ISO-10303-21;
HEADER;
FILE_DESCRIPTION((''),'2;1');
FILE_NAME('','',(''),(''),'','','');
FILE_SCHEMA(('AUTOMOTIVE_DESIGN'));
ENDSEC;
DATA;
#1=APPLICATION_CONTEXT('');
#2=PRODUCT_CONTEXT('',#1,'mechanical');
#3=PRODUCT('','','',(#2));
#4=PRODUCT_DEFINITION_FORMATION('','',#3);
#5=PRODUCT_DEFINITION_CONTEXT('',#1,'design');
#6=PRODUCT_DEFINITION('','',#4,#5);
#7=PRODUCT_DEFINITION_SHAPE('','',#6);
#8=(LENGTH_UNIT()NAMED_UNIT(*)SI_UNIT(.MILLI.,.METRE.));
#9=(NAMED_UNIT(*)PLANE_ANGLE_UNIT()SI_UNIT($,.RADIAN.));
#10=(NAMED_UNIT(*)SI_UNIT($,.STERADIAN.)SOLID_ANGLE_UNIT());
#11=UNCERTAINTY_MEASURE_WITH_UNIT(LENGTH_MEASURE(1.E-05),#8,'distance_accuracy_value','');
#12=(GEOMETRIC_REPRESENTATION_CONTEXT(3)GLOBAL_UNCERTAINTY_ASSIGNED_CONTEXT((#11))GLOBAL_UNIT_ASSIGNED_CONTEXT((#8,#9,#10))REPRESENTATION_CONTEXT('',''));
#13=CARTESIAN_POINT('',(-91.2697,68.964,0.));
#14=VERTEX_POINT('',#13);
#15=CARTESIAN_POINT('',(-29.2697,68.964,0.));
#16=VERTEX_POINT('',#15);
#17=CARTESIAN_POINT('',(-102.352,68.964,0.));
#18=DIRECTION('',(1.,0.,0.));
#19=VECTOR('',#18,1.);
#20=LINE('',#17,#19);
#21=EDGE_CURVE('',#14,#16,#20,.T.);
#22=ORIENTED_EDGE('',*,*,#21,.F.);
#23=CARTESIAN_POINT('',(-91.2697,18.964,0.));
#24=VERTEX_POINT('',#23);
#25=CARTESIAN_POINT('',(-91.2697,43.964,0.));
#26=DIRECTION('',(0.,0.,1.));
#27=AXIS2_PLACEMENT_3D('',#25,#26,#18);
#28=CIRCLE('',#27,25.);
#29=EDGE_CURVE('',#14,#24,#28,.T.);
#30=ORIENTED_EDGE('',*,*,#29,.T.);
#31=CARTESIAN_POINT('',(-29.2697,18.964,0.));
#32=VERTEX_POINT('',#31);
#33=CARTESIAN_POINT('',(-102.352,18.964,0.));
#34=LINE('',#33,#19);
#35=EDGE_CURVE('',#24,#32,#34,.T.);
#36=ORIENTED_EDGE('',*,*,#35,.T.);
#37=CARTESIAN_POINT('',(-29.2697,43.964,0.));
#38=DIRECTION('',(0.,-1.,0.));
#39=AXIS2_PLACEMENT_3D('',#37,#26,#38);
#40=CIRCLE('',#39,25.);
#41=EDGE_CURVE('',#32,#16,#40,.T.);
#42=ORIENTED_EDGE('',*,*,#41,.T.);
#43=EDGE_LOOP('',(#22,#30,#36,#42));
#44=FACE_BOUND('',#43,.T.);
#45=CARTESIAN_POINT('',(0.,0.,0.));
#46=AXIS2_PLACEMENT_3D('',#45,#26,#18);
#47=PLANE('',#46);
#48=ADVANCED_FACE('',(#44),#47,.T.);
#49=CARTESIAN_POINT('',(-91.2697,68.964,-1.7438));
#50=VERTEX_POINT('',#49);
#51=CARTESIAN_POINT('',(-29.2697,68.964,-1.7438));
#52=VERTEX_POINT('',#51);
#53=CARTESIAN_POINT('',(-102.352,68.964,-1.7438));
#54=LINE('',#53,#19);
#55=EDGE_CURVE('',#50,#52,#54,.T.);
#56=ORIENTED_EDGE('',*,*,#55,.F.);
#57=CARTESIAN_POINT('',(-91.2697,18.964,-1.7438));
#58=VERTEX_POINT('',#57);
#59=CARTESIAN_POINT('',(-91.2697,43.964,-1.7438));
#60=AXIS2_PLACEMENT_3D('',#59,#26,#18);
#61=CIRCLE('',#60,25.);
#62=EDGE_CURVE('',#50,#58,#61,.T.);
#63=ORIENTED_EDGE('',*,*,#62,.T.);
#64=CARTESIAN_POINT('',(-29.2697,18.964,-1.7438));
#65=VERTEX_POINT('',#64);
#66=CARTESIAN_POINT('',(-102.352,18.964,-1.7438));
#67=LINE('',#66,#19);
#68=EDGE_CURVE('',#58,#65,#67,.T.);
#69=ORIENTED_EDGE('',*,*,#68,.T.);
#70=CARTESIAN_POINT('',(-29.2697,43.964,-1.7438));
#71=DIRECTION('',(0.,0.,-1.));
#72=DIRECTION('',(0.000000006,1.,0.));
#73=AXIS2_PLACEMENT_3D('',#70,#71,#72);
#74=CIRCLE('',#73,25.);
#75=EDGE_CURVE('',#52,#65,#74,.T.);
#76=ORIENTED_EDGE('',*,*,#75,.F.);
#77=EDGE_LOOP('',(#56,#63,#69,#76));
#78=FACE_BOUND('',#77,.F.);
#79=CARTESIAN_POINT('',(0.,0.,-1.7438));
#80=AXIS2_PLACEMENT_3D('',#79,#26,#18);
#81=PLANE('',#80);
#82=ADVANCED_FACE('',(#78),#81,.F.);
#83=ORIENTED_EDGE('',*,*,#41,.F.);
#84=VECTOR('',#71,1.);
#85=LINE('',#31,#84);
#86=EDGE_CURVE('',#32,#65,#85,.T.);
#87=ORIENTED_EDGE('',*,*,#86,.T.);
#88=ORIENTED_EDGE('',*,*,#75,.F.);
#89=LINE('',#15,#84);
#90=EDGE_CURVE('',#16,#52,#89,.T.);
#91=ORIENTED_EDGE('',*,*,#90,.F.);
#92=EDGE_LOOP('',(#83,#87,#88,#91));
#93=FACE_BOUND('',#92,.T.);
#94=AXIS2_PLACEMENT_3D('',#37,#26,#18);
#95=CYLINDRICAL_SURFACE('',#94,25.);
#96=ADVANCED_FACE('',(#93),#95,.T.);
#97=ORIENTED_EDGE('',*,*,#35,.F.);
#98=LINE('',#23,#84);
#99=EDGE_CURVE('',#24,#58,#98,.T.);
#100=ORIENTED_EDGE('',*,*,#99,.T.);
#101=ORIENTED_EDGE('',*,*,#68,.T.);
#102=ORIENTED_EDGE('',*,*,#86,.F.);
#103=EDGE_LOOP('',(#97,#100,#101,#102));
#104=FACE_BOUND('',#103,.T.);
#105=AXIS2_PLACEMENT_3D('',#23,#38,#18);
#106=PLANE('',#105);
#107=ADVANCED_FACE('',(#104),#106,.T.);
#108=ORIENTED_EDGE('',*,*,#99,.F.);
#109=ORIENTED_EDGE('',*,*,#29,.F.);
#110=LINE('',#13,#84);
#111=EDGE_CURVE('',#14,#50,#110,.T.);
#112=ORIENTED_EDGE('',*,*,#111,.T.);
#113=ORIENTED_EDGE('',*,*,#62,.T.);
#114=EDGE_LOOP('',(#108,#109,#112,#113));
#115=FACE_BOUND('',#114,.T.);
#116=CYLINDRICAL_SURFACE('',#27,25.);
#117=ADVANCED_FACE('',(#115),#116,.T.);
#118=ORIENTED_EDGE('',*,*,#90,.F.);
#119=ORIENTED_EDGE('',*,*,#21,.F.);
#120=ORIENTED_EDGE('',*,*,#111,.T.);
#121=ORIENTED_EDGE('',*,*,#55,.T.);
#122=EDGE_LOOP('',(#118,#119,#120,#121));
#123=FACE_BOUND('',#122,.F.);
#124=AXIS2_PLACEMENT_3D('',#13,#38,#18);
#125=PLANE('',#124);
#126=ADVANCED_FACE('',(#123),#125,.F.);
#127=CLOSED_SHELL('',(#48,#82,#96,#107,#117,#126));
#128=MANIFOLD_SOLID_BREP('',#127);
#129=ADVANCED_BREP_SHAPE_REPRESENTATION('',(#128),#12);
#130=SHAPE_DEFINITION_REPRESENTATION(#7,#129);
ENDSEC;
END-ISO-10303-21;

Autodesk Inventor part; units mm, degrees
ref_plane "YZ Plane" through (0, 0, 0) normal (1, 0, 0) x (0, 1, 0)
ref_plane "XZ Plane" through (0, 0, 0) normal (0, 1, 0) x (-1, 0, 0)
sketch "Skizze1" plane through (0, 0, 0) normal (0, 0, 1) x (1, 0, 0)
  circle A0 centre (-91.2697, 43.964) radius 25
  circle A1 centre (-29.2697, 43.964) radius 25
  ellipse E0 centre (-9.1617, 66.4648) end of major axis (16.2819, 71.5914) minor radius 22.416 (-7.6926, 89.0293) -> (-19.3363, 86.6652) ccw projected
  ellipse E1 centre (-31.2859, 110.7263) end of major axis (-1.1112, 117.4506) minor radius 26.6674 (-31.9836, 83.8645) -> (-19.3363, 86.6652) ccw projected
  line L0 (-34.4882, 83.8645) -> (-31.9836, 83.8645) projected
  ellipse E2 centre (-35.1859, 110.7263) end of major axis (-5.0113, 104.0019) minor radius 26.6674 (-47.1355, 86.6652) -> (-34.4882, 83.8645) ccw projected
  ellipse E3 centre (-57.311, 66.4601) end of major axis (-31.8648, 61.3331) minor radius 22.4208 (-47.1355, 86.6652) -> (-58.7792, 89.0293) ccw projected
  line L1 (-61.3973, 89.0293) -> (-58.7792, 89.0293) projected
  ellipse E4 centre (-62.8661, 66.4649) end of major axis (-37.4224, 71.5906) minor radius 22.416 (-61.3973, 89.0293) -> (-73.0392, 86.6659) ccw projected
  ellipse E5 centre (-84.9938, 110.7412) end of major axis (-54.802, 117.4681) minor radius 26.6822 (-85.6923, 83.8645) -> (-73.0392, 86.6659) ccw projected
  line L2 (-88.1968, 83.8645) -> (-85.6923, 83.8645) projected
  ellipse E6 centre (-88.8953, 110.7412) end of major axis (-58.7036, 104.0144) minor radius 26.6822 (-100.8499, 86.6659) -> (-88.1968, 83.8645) ccw projected
  ellipse E7 centre (-111.0239, 66.4602) end of major axis (-85.5776, 61.3339) minor radius 22.4208 (-100.8499, 86.6659) -> (-112.4918, 89.0293) ccw projected
  line L3 (-120.1896, 89.0293) -> (-112.4918, 89.0293) projected
  line L4 (-120.1896, 25.9867) -> (-120.1896, 89.0293) projected
  line L5 (-105.8047, 1.087) -> (-120.1896, 25.9867) projected
  spline S0 degree 3 poles (-103.9219, 0) (-104.0107, 0) (-104.0979, 0.0044) (-104.1833, 0.0134) (-104.269, 0.0223) (-104.353, 0.0358) (-104.4349, 0.0538) (-104.517, 0.0718) (-104.597, 0.0944) (-104.6748, 0.1214) (-104.7529, 0.1485) (-104.8286, 0.1801) (-104.9018, 0.2161) (-104.941, 0.2354) (-104.9795, 0.2559) (-105.0172, 0.2777) (-105.0875, 0.3183) (-105.1555, 0.3634) (-105.2209, 0.4129) (-105.2859, 0.4621) (-105.3484, 0.5156) (-105.408, 0.5733) (-105.4675, 0.6308) (-105.5243, 0.6924) (-105.5781, 0.758) (-105.6317, 0.8233) (-105.6824, 0.8925) (-105.7301, 0.9654) (-105.7558, 1.0049) (-105.7807, 1.0454) (-105.8047, 1.087) knots -2.338618 -2.338618 -2.338618 -2.338618 -2.082467 -2.082467 -2.082467 -1.825195 -1.825195 -1.825195 -1.567203 -1.567203 -1.567203 -1.307968 -1.307968 -1.307968 -1.168939 -1.168939 -1.168939 -0.909645 -0.909645 -0.909645 -0.651775 -0.651775 -0.651775 -0.394667 -0.394667 -0.394667 -0.138517 -0.138517 -0.138517 0 0 0 0 projected
  line L6 (-16.2642, 0) -> (-103.9219, 0) projected
  spline S1 degree 3 poles (-14.3814, 1.087) (-14.4258, 1.0102) (-14.4732, 0.9369) (-14.5236, 0.8675) (-14.5742, 0.7977) (-14.6278, 0.7318) (-14.6843, 0.6699) (-14.7409, 0.6078) (-14.8004, 0.5498) (-14.8626, 0.496) (-14.9251, 0.442) (-14.9903, 0.3922) (-15.058, 0.3468) (-15.0943, 0.3225) (-15.1313, 0.2995) (-15.169, 0.2777) (-15.2393, 0.2371) (-15.3124, 0.2007) (-15.388, 0.1688) (-15.4632, 0.137) (-15.5408, 0.1097) (-15.6206, 0.0868) (-15.7002, 0.064) (-15.782, 0.0457) (-15.8657, 0.0318) (-15.9491, 0.018) (-16.0345, 0.0087) (-16.1216, 0.0039) (-16.1686, 0.0013) (-16.2162, 0) (-16.2642, 0) knots -2.338618 -2.338618 -2.338618 -2.338618 -2.08263 -2.08263 -2.08263 -1.82552 -1.82552 -1.82552 -1.567689 -1.567689 -1.567689 -1.308614 -1.308614 -1.308614 -1.169679 -1.169679 -1.169679 -0.910226 -0.910226 -0.910226 -0.652194 -0.652194 -0.652194 -0.394923 -0.394923 -0.394923 -0.138612 -0.138612 -0.138612 0 0 0 0 projected
  line L7 (0.0001, 26.012) -> (-14.3814, 1.087) projected
  line L8 (0, 89.0293) -> (0.0001, 26.012) projected
  line L9 (-7.6926, 89.0293) -> (0, 89.0293) projected
  circle A2 centre (-64.1021, 9.6247) radius 1.6 projected
  circle A3 centre (-56.1021, 9.6247) radius 1.6 projected
  arc A4 (-20.5619, 52.6116) -> (-33.7385, 60.9564) centre (-35.5323, 43.5486) ccw projected
  arc A5 (-20.5619, 52.6116) -> (-29.2715, 52.6538) centre (-24.9939, 36.718) ccw projected
  arc A6 (-29.2715, 52.6538) -> (-38.5147, 54.1885) centre (-35.5323, 43.5486) ccw projected
  arc A7 (-33.7385, 60.9564) -> (-38.5147, 54.1885) centre (-24.3476, 49.2598) ccw projected
  arc A8 (-40.2873, 53.5232) -> (-46.2379, 46.2856) centre (-35.5323, 43.5486) ccw projected
  arc A9 (-49.711, 53.806) -> (-46.2379, 46.2856) centre (-34.8859, 56.0904) ccw projected
  arc A10 (-35.8959, 61.0448) -> (-49.711, 53.806) centre (-35.5323, 43.5486) ccw projected
  arc A11 (-35.8959, 61.0448) -> (-40.2873, 53.5232) centre (-24.3476, 49.2598) ccw projected
  arc A12 (-50.8662, 51.9818) -> (-51.5048, 36.3981) centre (-35.5323, 43.5486) ccw projected
  arc A13 (-50.8662, 51.9818) -> (-46.548, 44.4179) centre (-34.8859, 56.0904) ccw projected
  arc A14 (-46.548, 44.4179) -> (-43.2554, 35.6457) centre (-35.5323, 43.5486) ccw projected
  arc A15 (-51.5048, 36.3981) -> (-43.2554, 35.6457) centre (-46.0706, 50.3792) ccw projected
  arc A16 (-50.5026, 34.4856) -> (-37.326, 26.1408) centre (-35.5323, 43.5486) ccw projected
  arc A17 (-50.5026, 34.4856) -> (-41.793, 34.4433) centre (-46.0706, 50.3792) ccw projected
  arc A18 (-41.793, 34.4433) -> (-32.5498, 32.9087) centre (-35.5323, 43.5486) ccw projected
  arc A19 (-37.326, 26.1408) -> (-32.5498, 32.9087) centre (-46.7169, 37.8374) ccw projected
  arc A20 (-30.7773, 33.574) -> (-24.8266, 40.8115) centre (-35.5323, 43.5486) ccw projected
  arc A21 (-21.3535, 33.2912) -> (-24.8266, 40.8115) centre (-36.1786, 31.0068) ccw projected
  arc A22 (-35.1686, 26.0524) -> (-21.3535, 33.2912) centre (-35.5323, 43.5486) ccw projected
  arc A23 (-35.1686, 26.0524) -> (-30.7773, 33.574) centre (-46.7169, 37.8374) ccw projected
  arc A24 (-24.5165, 42.6792) -> (-27.8091, 51.4514) centre (-35.5323, 43.5486) ccw projected
  arc A25 (-19.5597, 50.699) -> (-27.8091, 51.4514) centre (-24.9939, 36.718) ccw projected
  arc A26 (-20.1983, 35.1154) -> (-19.5597, 50.699) centre (-35.5323, 43.5486) ccw projected
  arc A27 (-20.1983, 35.1154) -> (-24.5165, 42.6792) centre (-36.1786, 31.0068) ccw projected
  arc A28 (-87.0592, 33.5737) -> (-81.1083, 40.811) centre (-91.8139, 43.5484) ccw projected
  arc A29 (-77.6355, 33.2906) -> (-81.1083, 40.811) centre (-92.4606, 31.0066) ccw projected
  arc A30 (-91.4508, 26.0522) -> (-77.6355, 33.2906) centre (-91.8139, 43.5484) ccw projected
  arc A31 (-91.4508, 26.0522) -> (-87.0592, 33.5737) centre (-102.9987, 37.8376) ccw projected
  arc A32 (-106.7845, 34.4859) -> (-93.6082, 26.1406) centre (-91.8139, 43.5484) ccw projected
  arc A33 (-106.7845, 34.4859) -> (-98.0749, 34.4434) centre (-102.352, 50.3794) ccw projected
  arc A34 (-98.0749, 34.4434) -> (-88.8318, 32.9084) centre (-91.8139, 43.5484) ccw projected
  arc A35 (-93.6082, 26.1406) -> (-88.8318, 32.9084) centre (-102.9987, 37.8376) ccw projected
  arc A36 (-76.8432, 52.6109) -> (-90.0195, 60.9562) centre (-91.8139, 43.5484) ccw projected
  arc A37 (-76.8432, 52.6109) -> (-85.5528, 52.6534) centre (-81.2757, 36.7174) ccw projected
  arc A38 (-85.5528, 52.6534) -> (-94.796, 54.1884) centre (-91.8139, 43.5484) ccw projected
  arc A39 (-90.0195, 60.9562) -> (-94.796, 54.1884) centre (-80.629, 49.2592) ccw projected
  arc A40 (-96.5686, 53.5231) -> (-102.5194, 46.2858) centre (-91.8139, 43.5484) ccw projected
  arc A41 (-105.9923, 53.8062) -> (-102.5194, 46.2858) centre (-91.1672, 56.0902) ccw projected
  arc A42 (-92.1769, 61.0446) -> (-105.9923, 53.8062) centre (-91.8139, 43.5484) ccw projected
  arc A43 (-92.1769, 61.0446) -> (-96.5686, 53.5231) centre (-80.629, 49.2592) ccw projected
  arc A44 (-80.7982, 42.6787) -> (-84.0904, 51.451) centre (-91.8139, 43.5484) ccw projected
  arc A45 (-75.8411, 50.6983) -> (-84.0904, 51.451) centre (-81.2757, 36.7174) ccw projected
  arc A46 (-76.4802, 35.1147) -> (-75.8411, 50.6983) centre (-91.8139, 43.5484) ccw projected
  arc A47 (-76.4802, 35.1147) -> (-80.7982, 42.6787) centre (-92.4606, 31.0066) ccw projected
  arc A48 (-107.1476, 51.9821) -> (-107.7866, 36.3985) centre (-91.8139, 43.5484) ccw projected
  arc A49 (-107.1476, 51.9821) -> (-102.8296, 44.4181) centre (-91.1672, 56.0902) ccw projected
  arc A50 (-102.8296, 44.4181) -> (-99.5373, 35.6458) centre (-91.8139, 43.5484) ccw projected
  arc A51 (-107.7866, 36.3985) -> (-99.5373, 35.6458) centre (-102.352, 50.3794) ccw projected
  arc A52 (-86.0548, 46.6926) -> (-85.9137, 46.6766) centre (-85.9683, 46.825) ccw projected
  line L10 (-85.6942, 46.741) -> (-85.9156, 46.6796) projected
  spline S2 degree 3 poles (-84.7234, 46.8312) (-84.8974, 46.8308) (-85.0866, 46.8262) (-85.2632, 46.8106) (-85.4061, 46.798) (-85.5539, 46.7772) (-85.6942, 46.741) knots -0.122826 -0.122826 -0.122826 -0.122826 -0.054961 -0.054961 -0.054961 0 0 0 0 projected
  spline S3 degree 3 poles (-83.2154, 46.6804) (-83.3883, 46.7327) (-83.5805, 46.7673) (-83.7805, 46.7898) (-83.7975, 46.7917) (-83.8146, 46.7936) (-83.8318, 46.7953) (-83.8434, 46.7965) (-83.855, 46.7976) (-83.8666, 46.7987) (-84.1413, 46.8249) (-84.4269, 46.8312) (-84.6873, 46.8312) (-84.6994, 46.8312) (-84.7114, 46.8312) (-84.7234, 46.8312) knots -0.194136 -0.194136 -0.194136 -0.194136 -0.118483 -0.118483 -0.118483 -0.112036 -0.112036 -0.112036 -0.107675 -0.107675 -0.107675 -0.004775 -0.004775 -0.004775 0 0 0 0 projected
  spline S4 degree 3 poles (-82.3446, 45.9479) (-82.3857, 46.0372) (-82.437, 46.121) (-82.4975, 46.1985) (-82.5463, 46.261) (-82.6007, 46.3188) (-82.6596, 46.3715) (-82.6735, 46.3839) (-82.6877, 46.3961) (-82.7021, 46.4079) (-82.8528, 46.5322) (-83.0284, 46.6239) (-83.2154, 46.6804) knots -1.489588 -1.489588 -1.489588 -1.489588 -1.116559 -1.116559 -1.116559 -0.815384 -0.815384 -0.815384 -0.744362 -0.744362 -0.744362 0 0 0 0 projected
  spline S5 degree 3 poles (-82.1303, 44.589) (-82.1309, 44.8596) (-82.1416, 45.1087) (-82.1774, 45.3502) (-82.1791, 45.3619) (-82.1809, 45.3736) (-82.1827, 45.3853) (-82.214, 45.5816) (-82.2649, 45.7746) (-82.3446, 45.9479) knots -0.151678 -0.151678 -0.151678 -0.151678 -0.0703 -0.0703 -0.0703 -0.066352 -0.066352 -0.066352 0 0 0 0 projected
  line L11 (-82.1256, 42.5169) -> (-82.1303, 44.589) projected
  spline S6 degree 3 poles (-82.7841, 40.9566) (-82.6707, 41.0392) (-82.5715, 41.1365) (-82.4867, 41.2485) (-82.4227, 41.3332) (-82.3687, 41.4239) (-82.3236, 41.5186) (-82.3144, 41.5381) (-82.3055, 41.5577) (-82.297, 41.5774) (-82.2917, 41.5898) (-82.2865, 41.6022) (-82.2814, 41.6147) (-82.1669, 41.8986) (-82.1249, 42.2114) (-82.1256, 42.5169) knots -0.223192 -0.223192 -0.223192 -0.223192 -0.170194 -0.170194 -0.170194 -0.130156 -0.130156 -0.130156 -0.121953 -0.121953 -0.121953 -0.11681 -0.11681 -0.11681 0 0 0 0 projected
  spline S7 degree 3 poles (-84.6323, 40.5153) (-84.1659, 40.5163) (-83.7588, 40.5549) (-83.398, 40.6621) (-83.3923, 40.6638) (-83.3865, 40.6656) (-83.3808, 40.6673) (-83.3748, 40.6691) (-83.3688, 40.671) (-83.3629, 40.6728) (-83.1669, 40.7342) (-82.9646, 40.825) (-82.7841, 40.9566) knots -2.452794 -2.452794 -2.452794 -2.452794 -0.895722 -0.895722 -0.895722 -0.870966 -0.870966 -0.870966 -0.845148 -0.845148 -0.845148 0 0 0 0 projected
  spline S8 degree 3 poles (-85.5377, 40.5812) (-85.4045, 40.5549) (-85.2653, 40.5393) (-85.1305, 40.5298) (-84.9669, 40.5183) (-84.7951, 40.5149) (-84.6323, 40.5153) knots -0.112604 -0.112604 -0.112604 -0.112604 -0.061749 -0.061749 -0.061749 0 0 0 0 projected
  line L12 (-85.7322, 40.6271) -> (-85.5377, 40.5812) projected
  arc A53 (-85.731, 40.6295) -> (-85.9362, 40.4782) centre (-85.7781, 40.4786) ccw projected
  line L13 (-85.9315, 38.412) -> (-85.9362, 40.4782) projected
  arc A54 (-86.0893, 38.2535) -> (-85.9315, 38.412) centre (-86.0896, 38.4116) ccw projected
  line L14 (-88.1643, 38.2488) -> (-86.0893, 38.2535) projected
  arc A55 (-88.3228, 38.4065) -> (-88.1643, 38.2488) centre (-88.1646, 38.4069) ccw projected
  line L15 (-88.3413, 46.5552) -> (-88.3228, 38.4065) projected
  arc A56 (-88.1835, 46.7137) -> (-88.3413, 46.5552) centre (-88.1832, 46.5556) ccw projected
  line L16 (-86.1416, 46.7183) -> (-88.1835, 46.7137) projected
  arc A57 (-86.0548, 46.6926) -> (-86.1416, 46.7183) centre (-86.1413, 46.5602) ccw projected
  line L17 (-92.4601, 40.7652) -> (-92.4716, 44.6753) projected
  arc A58 (-92.6179, 40.6067) -> (-92.4601, 40.7652) centre (-92.6182, 40.7648) ccw projected
  line L18 (-94.6929, 40.602) -> (-92.6179, 40.6067) projected
  arc A59 (-94.8514, 40.7598) -> (-94.6929, 40.602) centre (-94.6932, 40.7601) ccw projected
  line L19 (-94.8645, 46.5404) -> (-94.8514, 40.7598) projected
  arc A60 (-94.7068, 46.6989) -> (-94.8645, 46.5404) centre (-94.7064, 46.5407) ccw projected
  line L20 (-92.6405, 46.7036) -> (-94.7068, 46.6989) projected
  arc A61 (-92.5441, 46.6711) -> (-92.6405, 46.7036) centre (-92.6402, 46.5454) ccw projected
  arc A62 (-92.5441, 46.6711) -> (-92.3949, 46.6478) centre (-92.4481, 46.7967) ccw projected
  spline S9 degree 3 poles (-91.1918, 46.8165) (-91.4073, 46.816) (-91.63, 46.8056) (-92.0309, 46.7513) (-92.2173, 46.7112) (-92.3949, 46.6478) knots -0.153916 -0.153916 -0.153916 -0.153916 -0.071551 -0.071551 0 0 0 0 projected
  spline S10 degree 3 poles (-89.4966, 46.3526) (-89.5966, 46.4414) (-89.7069, 46.5144) (-89.8263, 46.5738) (-89.9507, 46.6358) (-90.0821, 46.6814) (-90.2086, 46.7143) (-90.2124, 46.7153) (-90.2162, 46.7162) (-90.22, 46.7172) (-90.5157, 46.7925) (-90.8412, 46.8173) (-91.1918, 46.8165) knots -0.256586 -0.256586 -0.256586 -0.256586 -0.19968 -0.19968 -0.19968 -0.140397 -0.140397 -0.140397 -0.138614 -0.138614 -0.138614 0 0 0 0 projected
  spline S11 degree 3 poles (-88.9503, 44.9024) (-88.9507, 45.0851) (-88.9666, 45.2696) (-89.004, 45.4486) (-89.0386, 45.6139) (-89.0919, 45.7756) (-89.1694, 45.9264) (-89.2524, 46.0878) (-89.3607, 46.2317) (-89.4966, 46.3526) knots -0.202492 -0.202492 -0.202492 -0.202492 -0.132951 -0.132951 -0.132951 -0.068717 -0.068717 -0.068717 0 0 0 0 projected
  line L21 (-88.9409, 40.7732) -> (-88.9503, 44.9024) projected
  arc A63 (-89.0986, 40.6147) -> (-88.9409, 40.7732) centre (-89.099, 40.7729) ccw projected
  line L22 (-91.1736, 40.61) -> (-89.0986, 40.6147) projected
  arc A64 (-91.3321, 40.7678) -> (-91.1736, 40.61) centre (-91.174, 40.7681) ccw projected
  line L23 (-91.3387, 44.6778) -> (-91.3321, 40.7678) projected
  line L24 (-91.3482, 44.8676) -> (-91.3387, 44.6778) projected
  arc A65 (-91.3508, 44.8669) -> (-91.4873, 45.0072) centre (-91.508, 44.8504) ccw projected
  line L25 (-91.8017, 45.0269) -> (-91.4852, 45.0129) projected
  spline S12 degree 3 poles (-92.3289, 44.9918) (-92.2912, 44.9983) (-92.2427, 45.0046) (-92.1896, 45.0097) (-92.1778, 45.0108) (-92.1658, 45.0119) (-92.1537, 45.0129) (-92.1468, 45.0135) (-92.1398, 45.014) (-92.1327, 45.0146) (-92.1287, 45.0149) (-92.1247, 45.0152) (-92.1207, 45.0155) (-92.0101, 45.0237) (-91.904, 45.0266) (-91.8017, 45.0269) knots -0.073532 -0.073532 -0.073532 -0.073532 -0.052029 -0.052029 -0.052029 -0.047253 -0.047253 -0.047253 -0.044506 -0.044506 -0.044506 -0.042944 -0.042944 -0.042944 0 0 0 0 projected
  arc A66 (-92.3289, 44.9918) -> (-92.4591, 44.8544) centre (-92.302, 44.8359) ccw projected
  line L26 (-92.4716, 44.6753) -> (-92.4619, 44.8553) projected
  spline S13 degree 3 poles (-100.0607, 46.5983) (-100.1975, 46.5563) (-100.333, 46.5049) (-100.4611, 46.4399) (-100.5808, 46.3793) (-100.6936, 46.3071) (-100.7961, 46.22) knots -0.105465 -0.105465 -0.105465 -0.105465 -0.050938 -0.050938 -0.050938 0 0 0 0 projected
  ellipse E8 centre (-104.9794, 13.7975) end of major axis (-111.7131, -19.1173) minor radius 10.4703 (-99.2435, 46.7635) -> (-100.0607, 46.5983) ccw projected
  spline S14 degree 3 poles (-98.4166, 46.8001) (-98.5634, 46.7997) (-98.7129, 46.797) (-98.8596, 46.7906) (-98.9869, 46.785) (-99.1167, 46.7764) (-99.2435, 46.7635) knots -0.104179 -0.104179 -0.104179 -0.104179 -0.048423 -0.048423 -0.048423 0 0 0 0 projected
  spline S15 degree 3 poles (-97.5646, 46.767) (-97.6917, 46.7799) (-97.8237, 46.7878) (-97.9513, 46.7927) (-98.1047, 46.7985) (-98.2633, 46.8004) (-98.4166, 46.8001) knots -0.106414 -0.106414 -0.106414 -0.106414 -0.058092 -0.058092 -0.058092 0 0 0 0 projected
  spline S16 degree 3 poles (-96.8203, 46.6251) (-96.8656, 46.6373) (-96.9895, 46.67) (-97.1252, 46.6983) (-97.1375, 46.7008) (-97.1498, 46.7033) (-97.1622, 46.7058) (-97.175, 46.7084) (-97.1879, 46.7109) (-97.2007, 46.7133) (-97.3361, 46.7392) (-97.4502, 46.7554) (-97.5646, 46.767) knots -0.117674 -0.117674 -0.117674 -0.117674 -0.063481 -0.063481 -0.063481 -0.05859 -0.05859 -0.05859 -0.053521 -0.053521 -0.053521 0 0 0 0 projected
  spline S17 degree 3 poles (-96.034, 46.2358) (-96.1264, 46.3132) (-96.2261, 46.3802) (-96.3483, 46.4438) (-96.3632, 46.4515) (-96.3785, 46.4592) (-96.3941, 46.4669) (-96.4026, 46.471) (-96.4111, 46.4751) (-96.4197, 46.4791) (-96.5834, 46.5564) (-96.7598, 46.6084) (-96.8203, 46.6251) knots -0.039747 -0.039747 -0.039747 -0.039747 -0.023556 -0.023556 -0.023556 -0.021582 -0.021582 -0.021582 -0.020509 -0.020509 -0.020509 0 0 0 0 projected
  spline S18 degree 3 poles (-95.5204, 45.5204) (-95.5821, 45.6592) (-95.6555, 45.7936) (-95.7435, 45.9178) (-95.827, 46.0355) (-95.9231, 46.143) (-96.034, 46.2358) knots -0.112543 -0.112543 -0.112543 -0.112543 -0.05478 -0.05478 -0.05478 0 0 0 0 projected
  spline S19 degree 3 poles (-95.3191, 44.4823) (-95.3195, 44.6658) (-95.3337, 44.8506) (-95.368, 45.0313) (-95.3999, 45.1998) (-95.4491, 45.3641) (-95.5204, 45.5204) knots -0.134887 -0.134887 -0.134887 -0.134887 -0.065077 -0.065077 -0.065077 0 0 0 0 projected
  line L27 (-95.3155, 42.9145) -> (-95.3191, 44.4823) projected
  spline S20 degree 3 poles (-95.5079, 41.8411) (-95.4399, 42.0053) (-95.3924, 42.1764) (-95.3615, 42.3512) (-95.3288, 42.537) (-95.3151, 42.7261) (-95.3155, 42.9145) knots -0.13893 -0.13893 -0.13893 -0.13893 -0.071582 -0.071582 -0.071582 0 0 0 0 projected
  spline S21 degree 3 poles (-96.0477, 41.0725) (-95.9525, 41.1522) (-95.8705, 41.2309) (-95.7725, 41.3655) (-95.7668, 41.3732) (-95.7611, 41.3811) (-95.7554, 41.3892) (-95.7497, 41.3972) (-95.744, 41.4054) (-95.7382, 41.4137) (-95.6344, 41.5631) (-95.5661, 41.7005) (-95.5079, 41.8411) knots -1.203844 -1.203844 -1.203844 -1.203844 -0.643218 -0.643218 -0.643218 -0.61089 -0.61089 -0.61089 -0.578662 -0.578662 -0.578662 0 0 0 0 projected
  spline S22 degree 3 poles (-96.7812, 40.6888) (-96.6732, 40.7251) (-96.5657, 40.7659) (-96.4452, 40.8239) (-96.4247, 40.8337) (-96.4039, 40.844) (-96.3827, 40.855) (-96.3741, 40.8595) (-96.3655, 40.864) (-96.357, 40.8685) (-96.3288, 40.8836) (-96.3013, 40.899) (-96.2751, 40.9145) (-96.255, 40.9264) (-96.2358, 40.9382) (-96.2175, 40.9499) (-96.1355, 41.002) (-96.0756, 41.0498) (-96.0477, 41.0725) knots -0.034306 -0.034306 -0.034306 -0.034306 -0.020192 -0.020192 -0.020192 -0.017794 -0.017794 -0.017794 -0.016819 -0.016819 -0.016819 -0.013578 -0.013578 -0.013578 -0.011102 -0.011102 -0.011102 0 0 0 0 projected
  spline S23 degree 3 poles (-97.6176, 40.5086) (-97.6088, 40.5094) (-97.598, 40.5104) (-97.5853, 40.5117) (-97.5723, 40.513) (-97.5572, 40.5146) (-97.5405, 40.5165) (-97.4857, 40.5227) (-97.4123, 40.5327) (-97.3322, 40.5469) (-97.311, 40.5507) (-97.2894, 40.5547) (-97.2675, 40.559) (-97.2456, 40.5633) (-97.2236, 40.5679) (-97.2014, 40.5727) (-97.0458, 40.6063) (-96.9188, 40.6431) (-96.7943, 40.6844) (-96.79, 40.6859) (-96.7856, 40.6873) (-96.7812, 40.6888) knots -0.135222 -0.135222 -0.135222 -0.135222 -0.125386 -0.125386 -0.125386 -0.115191 -0.115191 -0.115191 -0.081826 -0.081826 -0.081826 -0.073 -0.073 -0.073 -0.064174 -0.064174 -0.064174 -0.002177 -0.002177 -0.002177 0 0 0 0 projected
  line L28 (-98.4023, 40.4839) -> (-97.6176, 40.5086) projected
  spline S24 degree 3 poles (-99.2439, 40.5111) (-99.1214, 40.5002) (-98.992, 40.4938) (-98.8691, 40.4899) (-98.7159, 40.485) (-98.5554, 40.4836) (-98.4023, 40.4839) knots -0.104414 -0.104414 -0.104414 -0.104414 -0.057924 -0.057924 -0.057924 0 0 0 0 projected
  spline S25 degree 3 poles (-99.9858, 40.6616) (-99.8604, 40.6239) (-99.7328, 40.5908) (-99.6045, 40.5646) (-99.4855, 40.5403) (-99.365, 40.5218) (-99.2439, 40.5111) knots -0.095821 -0.095821 -0.095821 -0.095821 -0.046096 -0.046096 -0.046096 0 0 0 0 projected
  spline S26 degree 3 poles (-100.7691, 41.0652) (-100.6711, 40.9828) (-100.5652, 40.9113) (-100.4363, 40.8433) (-100.4276, 40.8387) (-100.4188, 40.8342) (-100.4099, 40.8296) (-100.4012, 40.8252) (-100.3926, 40.8209) (-100.384, 40.8166) (-100.2927, 40.7712) (-100.2105, 40.7367) (-100.1351, 40.7099) (-100.0833, 40.6915) (-100.0345, 40.6763) (-99.9858, 40.6616) knots -1.124833 -1.124833 -1.124833 -1.124833 -0.63928 -0.63928 -0.63928 -0.606632 -0.606632 -0.606632 -0.574712 -0.574712 -0.574712 -0.234192 -0.234192 -0.234192 0 0 0 0 projected
  spline S27 degree 3 poles (-101.3001, 41.7998) (-101.2554, 41.7025) (-101.2064, 41.6013) (-101.1311, 41.4851) (-101.1183, 41.4652) (-101.1047, 41.445) (-101.0905, 41.4245) (-101.083, 41.4136) (-101.0753, 41.4026) (-101.0674, 41.3915) (-100.9728, 41.2592) (-100.8771, 41.156) (-100.7691, 41.0652) knots -0.13558 -0.13558 -0.13558 -0.13558 -0.077687 -0.077687 -0.077687 -0.067813 -0.067813 -0.067813 -0.062578 -0.062578 -0.062578 0 0 0 0 projected
  spline S28 degree 3 poles (-101.5001, 42.9004) (-101.4997, 42.7177) (-101.4895, 42.5333) (-101.451, 42.3181) (-101.4489, 42.3061) (-101.4468, 42.2943) (-101.4446, 42.2828) (-101.4252, 42.1792) (-101.4039, 42.0906) (-101.3802, 42.014) (-101.3564, 41.9369) (-101.33, 41.871) (-101.3001, 41.7998) knots -0.100587 -0.100587 -0.100587 -0.100587 -0.051574 -0.051574 -0.051574 -0.04885 -0.04885 -0.04885 -0.024504 -0.024504 -0.024504 0 0 0 0 projected
  line L29 (-101.5036, 44.4682) -> (-101.5001, 42.9004) projected
  spline S29 degree 3 poles (-101.3161, 45.4901) (-101.321, 45.4778) (-101.3258, 45.4658) (-101.3303, 45.4541) (-101.3347, 45.4429) (-101.3389, 45.432) (-101.343, 45.4212) (-101.3467, 45.4114) (-101.3503, 45.4018) (-101.3538, 45.3923) (-101.387, 45.3019) (-101.4147, 45.2072) (-101.4366, 45.1107) (-101.4447, 45.0752) (-101.452, 45.0394) (-101.4585, 45.0035) (-101.4905, 44.8269) (-101.504, 44.6473) (-101.5036, 44.4682) knots -1.324342 -1.324342 -1.324342 -1.324342 -1.279119 -1.279119 -1.279119 -1.236014 -1.236014 -1.236014 -1.196583 -1.196583 -1.196583 -0.819658 -0.819658 -0.819658 -0.681017 -0.681017 -0.681017 0 0 0 0 projected
  spline S30 degree 3 poles (-100.7961, 46.22) (-100.9097, 46.1253) (-101.0082, 46.0155) (-101.0933, 45.8946) (-101.0987, 45.887) (-101.1039, 45.8794) (-101.1094, 45.8713) (-101.189, 45.7546) (-101.249, 45.6387) (-101.3029, 45.5193) (-101.3073, 45.5096) (-101.3117, 45.4998) (-101.3161, 45.4901) knots -1.146381 -1.146381 -1.146381 -1.146381 -0.585726 -0.585726 -0.585726 -0.550633 -0.550633 -0.550633 -0.041397 -0.041397 -0.041397 0 0 0 0 projected
  line L30 (-34.9505, 49.0872) -> (-34.9505, 47.167) projected
  arc A67 (-34.7875, 49.2502) -> (-34.9505, 49.0872) centre (-34.7875, 49.0872) ccw projected
  line L31 (-32.648, 49.2502) -> (-34.7875, 49.2502) projected
  arc A68 (-32.485, 49.0872) -> (-32.648, 49.2502) centre (-32.648, 49.0872) ccw projected
  line L32 (-32.485, 40.7758) -> (-32.485, 49.0872) projected
  arc A69 (-32.648, 40.6128) -> (-32.485, 40.7758) centre (-32.648, 40.7758) ccw projected
  line L33 (-34.7875, 40.6128) -> (-32.648, 40.6128) projected
  arc A70 (-34.9505, 40.7758) -> (-34.7875, 40.6128) centre (-34.7875, 40.7758) ccw projected
  line L34 (-34.9481, 44.8073) -> (-34.9505, 40.7758) projected
  line L35 (-34.9575, 45.003) -> (-34.9481, 44.8073) projected
  arc A71 (-34.9601, 45.0023) -> (-35.1006, 45.1472) centre (-35.1223, 44.9856) ccw projected
  line L36 (-35.4246, 45.1683) -> (-35.0983, 45.1531) projected
  spline S31 degree 3 poles (-35.9684, 45.1334) (-35.9561, 45.1355) (-35.9427, 45.1375) (-35.9284, 45.1395) (-35.8978, 45.1438) (-35.8629, 45.1478) (-35.826, 45.1513) (-35.8067, 45.1531) (-35.7868, 45.1548) (-35.7668, 45.1563) (-35.7625, 45.1566) (-35.7582, 45.1569) (-35.7539, 45.1573) (-35.6397, 45.1654) (-35.5302, 45.1683) (-35.4246, 45.1683) knots -0.073532 -0.073532 -0.073532 -0.073532 -0.066741 -0.066741 -0.066741 -0.052199 -0.052199 -0.052199 -0.044602 -0.044602 -0.044602 -0.042977 -0.042977 -0.042977 0 0 0 0 projected
  arc A72 (-35.9684, 45.1334) -> (-36.1029, 44.992) centre (-35.9409, 44.9726) ccw projected
  line L37 (-36.1161, 44.8073) -> (-36.1058, 44.9929) projected
  line L38 (-36.1135, 40.7758) -> (-36.1161, 44.8073) projected
  arc A73 (-36.2766, 40.6128) -> (-36.1135, 40.7758) centre (-36.2766, 40.7758) ccw projected
  line L39 (-38.416, 40.6128) -> (-36.2766, 40.6128) projected
  arc A74 (-38.579, 40.7758) -> (-38.416, 40.6128) centre (-38.416, 40.7758) ccw projected
  line L40 (-38.579, 42.6932) -> (-38.579, 40.7758) projected
  arc A75 (-38.579, 42.6932) -> (-38.579, 44.2828) centre (-55.2428, 43.488) ccw projected
  line L41 (-38.579, 46.736) -> (-38.579, 44.2828) projected
  arc A76 (-38.416, 46.899) -> (-38.579, 46.736) centre (-38.416, 46.736) ccw projected
  line L42 (-36.1895, 46.899) -> (-38.416, 46.899) projected
  arc A77 (-36.1062, 46.8761) -> (-36.1895, 46.899) centre (-36.1895, 46.736) ccw projected
  arc A78 (-36.1062, 46.8761) -> (-35.9727, 46.8611) centre (-36.0228, 47.0161) ccw projected
  spline S32 degree 3 poles (-35.1051, 47.0042) (-35.2586, 46.9963) (-35.4139, 46.9818) (-35.5658, 46.9571) (-35.7032, 46.9348) (-35.84, 46.9039) (-35.9727, 46.8611) knots -0.108009 -0.108009 -0.108009 -0.108009 -0.05128 -0.05128 -0.05128 0 0 0 0 projected
  arc A79 (-35.1051, 47.0042) -> (-34.9505, 47.167) centre (-35.1135, 47.167) ccw projected
  line L43 (-102.352, 68.964) -> (-17, 68.964)
  line L44 (-102.352, 18.964) -> (-14.3814, 18.964)
  point P0 (0, 0)
  point P1 (-91.2697, 68.964)
  point P2 (-91.2697, 18.964)
  point P3 (-29.2697, 18.964)
  point P4 (-29.2697, 68.964)
  dimension "d0" = 50
  dimension "d1" = 50
  dimension "d2" = 62
  dimension "d3" = 0
ref_plane "Arbeitsebene1" through (-121.3898, -1.0253, -1.7438) normal (0, 0, -1) x (0, 1, 0)
extrude "Extrusion1" add sketch "Skizze1" against normal up to surface (1.7438 mm away) contours A0 | A0 L43 A1 L44 | A1 | A5 A6 A7 A4 | A8 A9 A10 A11 | A13 A14 A15 A12 | A17 A18 A19 A16 | A20 A21 A22 A23 | A24 A25 A26 A27 | A28 A29 A30 A31 | A33 A34 A35 A32 | A37 A38 A39 A36 | A40 A41 A42 A43 | A44 A45 A46 A47 | A49 A50 A51 A48 | E8 S14 S15 S16 S17 S18 S19 L27 S20 S21 S22 S23 L28 S24 S25 S26 S27 S28 L29 S29 S30 S13
equation "\"d1\" = d0"
